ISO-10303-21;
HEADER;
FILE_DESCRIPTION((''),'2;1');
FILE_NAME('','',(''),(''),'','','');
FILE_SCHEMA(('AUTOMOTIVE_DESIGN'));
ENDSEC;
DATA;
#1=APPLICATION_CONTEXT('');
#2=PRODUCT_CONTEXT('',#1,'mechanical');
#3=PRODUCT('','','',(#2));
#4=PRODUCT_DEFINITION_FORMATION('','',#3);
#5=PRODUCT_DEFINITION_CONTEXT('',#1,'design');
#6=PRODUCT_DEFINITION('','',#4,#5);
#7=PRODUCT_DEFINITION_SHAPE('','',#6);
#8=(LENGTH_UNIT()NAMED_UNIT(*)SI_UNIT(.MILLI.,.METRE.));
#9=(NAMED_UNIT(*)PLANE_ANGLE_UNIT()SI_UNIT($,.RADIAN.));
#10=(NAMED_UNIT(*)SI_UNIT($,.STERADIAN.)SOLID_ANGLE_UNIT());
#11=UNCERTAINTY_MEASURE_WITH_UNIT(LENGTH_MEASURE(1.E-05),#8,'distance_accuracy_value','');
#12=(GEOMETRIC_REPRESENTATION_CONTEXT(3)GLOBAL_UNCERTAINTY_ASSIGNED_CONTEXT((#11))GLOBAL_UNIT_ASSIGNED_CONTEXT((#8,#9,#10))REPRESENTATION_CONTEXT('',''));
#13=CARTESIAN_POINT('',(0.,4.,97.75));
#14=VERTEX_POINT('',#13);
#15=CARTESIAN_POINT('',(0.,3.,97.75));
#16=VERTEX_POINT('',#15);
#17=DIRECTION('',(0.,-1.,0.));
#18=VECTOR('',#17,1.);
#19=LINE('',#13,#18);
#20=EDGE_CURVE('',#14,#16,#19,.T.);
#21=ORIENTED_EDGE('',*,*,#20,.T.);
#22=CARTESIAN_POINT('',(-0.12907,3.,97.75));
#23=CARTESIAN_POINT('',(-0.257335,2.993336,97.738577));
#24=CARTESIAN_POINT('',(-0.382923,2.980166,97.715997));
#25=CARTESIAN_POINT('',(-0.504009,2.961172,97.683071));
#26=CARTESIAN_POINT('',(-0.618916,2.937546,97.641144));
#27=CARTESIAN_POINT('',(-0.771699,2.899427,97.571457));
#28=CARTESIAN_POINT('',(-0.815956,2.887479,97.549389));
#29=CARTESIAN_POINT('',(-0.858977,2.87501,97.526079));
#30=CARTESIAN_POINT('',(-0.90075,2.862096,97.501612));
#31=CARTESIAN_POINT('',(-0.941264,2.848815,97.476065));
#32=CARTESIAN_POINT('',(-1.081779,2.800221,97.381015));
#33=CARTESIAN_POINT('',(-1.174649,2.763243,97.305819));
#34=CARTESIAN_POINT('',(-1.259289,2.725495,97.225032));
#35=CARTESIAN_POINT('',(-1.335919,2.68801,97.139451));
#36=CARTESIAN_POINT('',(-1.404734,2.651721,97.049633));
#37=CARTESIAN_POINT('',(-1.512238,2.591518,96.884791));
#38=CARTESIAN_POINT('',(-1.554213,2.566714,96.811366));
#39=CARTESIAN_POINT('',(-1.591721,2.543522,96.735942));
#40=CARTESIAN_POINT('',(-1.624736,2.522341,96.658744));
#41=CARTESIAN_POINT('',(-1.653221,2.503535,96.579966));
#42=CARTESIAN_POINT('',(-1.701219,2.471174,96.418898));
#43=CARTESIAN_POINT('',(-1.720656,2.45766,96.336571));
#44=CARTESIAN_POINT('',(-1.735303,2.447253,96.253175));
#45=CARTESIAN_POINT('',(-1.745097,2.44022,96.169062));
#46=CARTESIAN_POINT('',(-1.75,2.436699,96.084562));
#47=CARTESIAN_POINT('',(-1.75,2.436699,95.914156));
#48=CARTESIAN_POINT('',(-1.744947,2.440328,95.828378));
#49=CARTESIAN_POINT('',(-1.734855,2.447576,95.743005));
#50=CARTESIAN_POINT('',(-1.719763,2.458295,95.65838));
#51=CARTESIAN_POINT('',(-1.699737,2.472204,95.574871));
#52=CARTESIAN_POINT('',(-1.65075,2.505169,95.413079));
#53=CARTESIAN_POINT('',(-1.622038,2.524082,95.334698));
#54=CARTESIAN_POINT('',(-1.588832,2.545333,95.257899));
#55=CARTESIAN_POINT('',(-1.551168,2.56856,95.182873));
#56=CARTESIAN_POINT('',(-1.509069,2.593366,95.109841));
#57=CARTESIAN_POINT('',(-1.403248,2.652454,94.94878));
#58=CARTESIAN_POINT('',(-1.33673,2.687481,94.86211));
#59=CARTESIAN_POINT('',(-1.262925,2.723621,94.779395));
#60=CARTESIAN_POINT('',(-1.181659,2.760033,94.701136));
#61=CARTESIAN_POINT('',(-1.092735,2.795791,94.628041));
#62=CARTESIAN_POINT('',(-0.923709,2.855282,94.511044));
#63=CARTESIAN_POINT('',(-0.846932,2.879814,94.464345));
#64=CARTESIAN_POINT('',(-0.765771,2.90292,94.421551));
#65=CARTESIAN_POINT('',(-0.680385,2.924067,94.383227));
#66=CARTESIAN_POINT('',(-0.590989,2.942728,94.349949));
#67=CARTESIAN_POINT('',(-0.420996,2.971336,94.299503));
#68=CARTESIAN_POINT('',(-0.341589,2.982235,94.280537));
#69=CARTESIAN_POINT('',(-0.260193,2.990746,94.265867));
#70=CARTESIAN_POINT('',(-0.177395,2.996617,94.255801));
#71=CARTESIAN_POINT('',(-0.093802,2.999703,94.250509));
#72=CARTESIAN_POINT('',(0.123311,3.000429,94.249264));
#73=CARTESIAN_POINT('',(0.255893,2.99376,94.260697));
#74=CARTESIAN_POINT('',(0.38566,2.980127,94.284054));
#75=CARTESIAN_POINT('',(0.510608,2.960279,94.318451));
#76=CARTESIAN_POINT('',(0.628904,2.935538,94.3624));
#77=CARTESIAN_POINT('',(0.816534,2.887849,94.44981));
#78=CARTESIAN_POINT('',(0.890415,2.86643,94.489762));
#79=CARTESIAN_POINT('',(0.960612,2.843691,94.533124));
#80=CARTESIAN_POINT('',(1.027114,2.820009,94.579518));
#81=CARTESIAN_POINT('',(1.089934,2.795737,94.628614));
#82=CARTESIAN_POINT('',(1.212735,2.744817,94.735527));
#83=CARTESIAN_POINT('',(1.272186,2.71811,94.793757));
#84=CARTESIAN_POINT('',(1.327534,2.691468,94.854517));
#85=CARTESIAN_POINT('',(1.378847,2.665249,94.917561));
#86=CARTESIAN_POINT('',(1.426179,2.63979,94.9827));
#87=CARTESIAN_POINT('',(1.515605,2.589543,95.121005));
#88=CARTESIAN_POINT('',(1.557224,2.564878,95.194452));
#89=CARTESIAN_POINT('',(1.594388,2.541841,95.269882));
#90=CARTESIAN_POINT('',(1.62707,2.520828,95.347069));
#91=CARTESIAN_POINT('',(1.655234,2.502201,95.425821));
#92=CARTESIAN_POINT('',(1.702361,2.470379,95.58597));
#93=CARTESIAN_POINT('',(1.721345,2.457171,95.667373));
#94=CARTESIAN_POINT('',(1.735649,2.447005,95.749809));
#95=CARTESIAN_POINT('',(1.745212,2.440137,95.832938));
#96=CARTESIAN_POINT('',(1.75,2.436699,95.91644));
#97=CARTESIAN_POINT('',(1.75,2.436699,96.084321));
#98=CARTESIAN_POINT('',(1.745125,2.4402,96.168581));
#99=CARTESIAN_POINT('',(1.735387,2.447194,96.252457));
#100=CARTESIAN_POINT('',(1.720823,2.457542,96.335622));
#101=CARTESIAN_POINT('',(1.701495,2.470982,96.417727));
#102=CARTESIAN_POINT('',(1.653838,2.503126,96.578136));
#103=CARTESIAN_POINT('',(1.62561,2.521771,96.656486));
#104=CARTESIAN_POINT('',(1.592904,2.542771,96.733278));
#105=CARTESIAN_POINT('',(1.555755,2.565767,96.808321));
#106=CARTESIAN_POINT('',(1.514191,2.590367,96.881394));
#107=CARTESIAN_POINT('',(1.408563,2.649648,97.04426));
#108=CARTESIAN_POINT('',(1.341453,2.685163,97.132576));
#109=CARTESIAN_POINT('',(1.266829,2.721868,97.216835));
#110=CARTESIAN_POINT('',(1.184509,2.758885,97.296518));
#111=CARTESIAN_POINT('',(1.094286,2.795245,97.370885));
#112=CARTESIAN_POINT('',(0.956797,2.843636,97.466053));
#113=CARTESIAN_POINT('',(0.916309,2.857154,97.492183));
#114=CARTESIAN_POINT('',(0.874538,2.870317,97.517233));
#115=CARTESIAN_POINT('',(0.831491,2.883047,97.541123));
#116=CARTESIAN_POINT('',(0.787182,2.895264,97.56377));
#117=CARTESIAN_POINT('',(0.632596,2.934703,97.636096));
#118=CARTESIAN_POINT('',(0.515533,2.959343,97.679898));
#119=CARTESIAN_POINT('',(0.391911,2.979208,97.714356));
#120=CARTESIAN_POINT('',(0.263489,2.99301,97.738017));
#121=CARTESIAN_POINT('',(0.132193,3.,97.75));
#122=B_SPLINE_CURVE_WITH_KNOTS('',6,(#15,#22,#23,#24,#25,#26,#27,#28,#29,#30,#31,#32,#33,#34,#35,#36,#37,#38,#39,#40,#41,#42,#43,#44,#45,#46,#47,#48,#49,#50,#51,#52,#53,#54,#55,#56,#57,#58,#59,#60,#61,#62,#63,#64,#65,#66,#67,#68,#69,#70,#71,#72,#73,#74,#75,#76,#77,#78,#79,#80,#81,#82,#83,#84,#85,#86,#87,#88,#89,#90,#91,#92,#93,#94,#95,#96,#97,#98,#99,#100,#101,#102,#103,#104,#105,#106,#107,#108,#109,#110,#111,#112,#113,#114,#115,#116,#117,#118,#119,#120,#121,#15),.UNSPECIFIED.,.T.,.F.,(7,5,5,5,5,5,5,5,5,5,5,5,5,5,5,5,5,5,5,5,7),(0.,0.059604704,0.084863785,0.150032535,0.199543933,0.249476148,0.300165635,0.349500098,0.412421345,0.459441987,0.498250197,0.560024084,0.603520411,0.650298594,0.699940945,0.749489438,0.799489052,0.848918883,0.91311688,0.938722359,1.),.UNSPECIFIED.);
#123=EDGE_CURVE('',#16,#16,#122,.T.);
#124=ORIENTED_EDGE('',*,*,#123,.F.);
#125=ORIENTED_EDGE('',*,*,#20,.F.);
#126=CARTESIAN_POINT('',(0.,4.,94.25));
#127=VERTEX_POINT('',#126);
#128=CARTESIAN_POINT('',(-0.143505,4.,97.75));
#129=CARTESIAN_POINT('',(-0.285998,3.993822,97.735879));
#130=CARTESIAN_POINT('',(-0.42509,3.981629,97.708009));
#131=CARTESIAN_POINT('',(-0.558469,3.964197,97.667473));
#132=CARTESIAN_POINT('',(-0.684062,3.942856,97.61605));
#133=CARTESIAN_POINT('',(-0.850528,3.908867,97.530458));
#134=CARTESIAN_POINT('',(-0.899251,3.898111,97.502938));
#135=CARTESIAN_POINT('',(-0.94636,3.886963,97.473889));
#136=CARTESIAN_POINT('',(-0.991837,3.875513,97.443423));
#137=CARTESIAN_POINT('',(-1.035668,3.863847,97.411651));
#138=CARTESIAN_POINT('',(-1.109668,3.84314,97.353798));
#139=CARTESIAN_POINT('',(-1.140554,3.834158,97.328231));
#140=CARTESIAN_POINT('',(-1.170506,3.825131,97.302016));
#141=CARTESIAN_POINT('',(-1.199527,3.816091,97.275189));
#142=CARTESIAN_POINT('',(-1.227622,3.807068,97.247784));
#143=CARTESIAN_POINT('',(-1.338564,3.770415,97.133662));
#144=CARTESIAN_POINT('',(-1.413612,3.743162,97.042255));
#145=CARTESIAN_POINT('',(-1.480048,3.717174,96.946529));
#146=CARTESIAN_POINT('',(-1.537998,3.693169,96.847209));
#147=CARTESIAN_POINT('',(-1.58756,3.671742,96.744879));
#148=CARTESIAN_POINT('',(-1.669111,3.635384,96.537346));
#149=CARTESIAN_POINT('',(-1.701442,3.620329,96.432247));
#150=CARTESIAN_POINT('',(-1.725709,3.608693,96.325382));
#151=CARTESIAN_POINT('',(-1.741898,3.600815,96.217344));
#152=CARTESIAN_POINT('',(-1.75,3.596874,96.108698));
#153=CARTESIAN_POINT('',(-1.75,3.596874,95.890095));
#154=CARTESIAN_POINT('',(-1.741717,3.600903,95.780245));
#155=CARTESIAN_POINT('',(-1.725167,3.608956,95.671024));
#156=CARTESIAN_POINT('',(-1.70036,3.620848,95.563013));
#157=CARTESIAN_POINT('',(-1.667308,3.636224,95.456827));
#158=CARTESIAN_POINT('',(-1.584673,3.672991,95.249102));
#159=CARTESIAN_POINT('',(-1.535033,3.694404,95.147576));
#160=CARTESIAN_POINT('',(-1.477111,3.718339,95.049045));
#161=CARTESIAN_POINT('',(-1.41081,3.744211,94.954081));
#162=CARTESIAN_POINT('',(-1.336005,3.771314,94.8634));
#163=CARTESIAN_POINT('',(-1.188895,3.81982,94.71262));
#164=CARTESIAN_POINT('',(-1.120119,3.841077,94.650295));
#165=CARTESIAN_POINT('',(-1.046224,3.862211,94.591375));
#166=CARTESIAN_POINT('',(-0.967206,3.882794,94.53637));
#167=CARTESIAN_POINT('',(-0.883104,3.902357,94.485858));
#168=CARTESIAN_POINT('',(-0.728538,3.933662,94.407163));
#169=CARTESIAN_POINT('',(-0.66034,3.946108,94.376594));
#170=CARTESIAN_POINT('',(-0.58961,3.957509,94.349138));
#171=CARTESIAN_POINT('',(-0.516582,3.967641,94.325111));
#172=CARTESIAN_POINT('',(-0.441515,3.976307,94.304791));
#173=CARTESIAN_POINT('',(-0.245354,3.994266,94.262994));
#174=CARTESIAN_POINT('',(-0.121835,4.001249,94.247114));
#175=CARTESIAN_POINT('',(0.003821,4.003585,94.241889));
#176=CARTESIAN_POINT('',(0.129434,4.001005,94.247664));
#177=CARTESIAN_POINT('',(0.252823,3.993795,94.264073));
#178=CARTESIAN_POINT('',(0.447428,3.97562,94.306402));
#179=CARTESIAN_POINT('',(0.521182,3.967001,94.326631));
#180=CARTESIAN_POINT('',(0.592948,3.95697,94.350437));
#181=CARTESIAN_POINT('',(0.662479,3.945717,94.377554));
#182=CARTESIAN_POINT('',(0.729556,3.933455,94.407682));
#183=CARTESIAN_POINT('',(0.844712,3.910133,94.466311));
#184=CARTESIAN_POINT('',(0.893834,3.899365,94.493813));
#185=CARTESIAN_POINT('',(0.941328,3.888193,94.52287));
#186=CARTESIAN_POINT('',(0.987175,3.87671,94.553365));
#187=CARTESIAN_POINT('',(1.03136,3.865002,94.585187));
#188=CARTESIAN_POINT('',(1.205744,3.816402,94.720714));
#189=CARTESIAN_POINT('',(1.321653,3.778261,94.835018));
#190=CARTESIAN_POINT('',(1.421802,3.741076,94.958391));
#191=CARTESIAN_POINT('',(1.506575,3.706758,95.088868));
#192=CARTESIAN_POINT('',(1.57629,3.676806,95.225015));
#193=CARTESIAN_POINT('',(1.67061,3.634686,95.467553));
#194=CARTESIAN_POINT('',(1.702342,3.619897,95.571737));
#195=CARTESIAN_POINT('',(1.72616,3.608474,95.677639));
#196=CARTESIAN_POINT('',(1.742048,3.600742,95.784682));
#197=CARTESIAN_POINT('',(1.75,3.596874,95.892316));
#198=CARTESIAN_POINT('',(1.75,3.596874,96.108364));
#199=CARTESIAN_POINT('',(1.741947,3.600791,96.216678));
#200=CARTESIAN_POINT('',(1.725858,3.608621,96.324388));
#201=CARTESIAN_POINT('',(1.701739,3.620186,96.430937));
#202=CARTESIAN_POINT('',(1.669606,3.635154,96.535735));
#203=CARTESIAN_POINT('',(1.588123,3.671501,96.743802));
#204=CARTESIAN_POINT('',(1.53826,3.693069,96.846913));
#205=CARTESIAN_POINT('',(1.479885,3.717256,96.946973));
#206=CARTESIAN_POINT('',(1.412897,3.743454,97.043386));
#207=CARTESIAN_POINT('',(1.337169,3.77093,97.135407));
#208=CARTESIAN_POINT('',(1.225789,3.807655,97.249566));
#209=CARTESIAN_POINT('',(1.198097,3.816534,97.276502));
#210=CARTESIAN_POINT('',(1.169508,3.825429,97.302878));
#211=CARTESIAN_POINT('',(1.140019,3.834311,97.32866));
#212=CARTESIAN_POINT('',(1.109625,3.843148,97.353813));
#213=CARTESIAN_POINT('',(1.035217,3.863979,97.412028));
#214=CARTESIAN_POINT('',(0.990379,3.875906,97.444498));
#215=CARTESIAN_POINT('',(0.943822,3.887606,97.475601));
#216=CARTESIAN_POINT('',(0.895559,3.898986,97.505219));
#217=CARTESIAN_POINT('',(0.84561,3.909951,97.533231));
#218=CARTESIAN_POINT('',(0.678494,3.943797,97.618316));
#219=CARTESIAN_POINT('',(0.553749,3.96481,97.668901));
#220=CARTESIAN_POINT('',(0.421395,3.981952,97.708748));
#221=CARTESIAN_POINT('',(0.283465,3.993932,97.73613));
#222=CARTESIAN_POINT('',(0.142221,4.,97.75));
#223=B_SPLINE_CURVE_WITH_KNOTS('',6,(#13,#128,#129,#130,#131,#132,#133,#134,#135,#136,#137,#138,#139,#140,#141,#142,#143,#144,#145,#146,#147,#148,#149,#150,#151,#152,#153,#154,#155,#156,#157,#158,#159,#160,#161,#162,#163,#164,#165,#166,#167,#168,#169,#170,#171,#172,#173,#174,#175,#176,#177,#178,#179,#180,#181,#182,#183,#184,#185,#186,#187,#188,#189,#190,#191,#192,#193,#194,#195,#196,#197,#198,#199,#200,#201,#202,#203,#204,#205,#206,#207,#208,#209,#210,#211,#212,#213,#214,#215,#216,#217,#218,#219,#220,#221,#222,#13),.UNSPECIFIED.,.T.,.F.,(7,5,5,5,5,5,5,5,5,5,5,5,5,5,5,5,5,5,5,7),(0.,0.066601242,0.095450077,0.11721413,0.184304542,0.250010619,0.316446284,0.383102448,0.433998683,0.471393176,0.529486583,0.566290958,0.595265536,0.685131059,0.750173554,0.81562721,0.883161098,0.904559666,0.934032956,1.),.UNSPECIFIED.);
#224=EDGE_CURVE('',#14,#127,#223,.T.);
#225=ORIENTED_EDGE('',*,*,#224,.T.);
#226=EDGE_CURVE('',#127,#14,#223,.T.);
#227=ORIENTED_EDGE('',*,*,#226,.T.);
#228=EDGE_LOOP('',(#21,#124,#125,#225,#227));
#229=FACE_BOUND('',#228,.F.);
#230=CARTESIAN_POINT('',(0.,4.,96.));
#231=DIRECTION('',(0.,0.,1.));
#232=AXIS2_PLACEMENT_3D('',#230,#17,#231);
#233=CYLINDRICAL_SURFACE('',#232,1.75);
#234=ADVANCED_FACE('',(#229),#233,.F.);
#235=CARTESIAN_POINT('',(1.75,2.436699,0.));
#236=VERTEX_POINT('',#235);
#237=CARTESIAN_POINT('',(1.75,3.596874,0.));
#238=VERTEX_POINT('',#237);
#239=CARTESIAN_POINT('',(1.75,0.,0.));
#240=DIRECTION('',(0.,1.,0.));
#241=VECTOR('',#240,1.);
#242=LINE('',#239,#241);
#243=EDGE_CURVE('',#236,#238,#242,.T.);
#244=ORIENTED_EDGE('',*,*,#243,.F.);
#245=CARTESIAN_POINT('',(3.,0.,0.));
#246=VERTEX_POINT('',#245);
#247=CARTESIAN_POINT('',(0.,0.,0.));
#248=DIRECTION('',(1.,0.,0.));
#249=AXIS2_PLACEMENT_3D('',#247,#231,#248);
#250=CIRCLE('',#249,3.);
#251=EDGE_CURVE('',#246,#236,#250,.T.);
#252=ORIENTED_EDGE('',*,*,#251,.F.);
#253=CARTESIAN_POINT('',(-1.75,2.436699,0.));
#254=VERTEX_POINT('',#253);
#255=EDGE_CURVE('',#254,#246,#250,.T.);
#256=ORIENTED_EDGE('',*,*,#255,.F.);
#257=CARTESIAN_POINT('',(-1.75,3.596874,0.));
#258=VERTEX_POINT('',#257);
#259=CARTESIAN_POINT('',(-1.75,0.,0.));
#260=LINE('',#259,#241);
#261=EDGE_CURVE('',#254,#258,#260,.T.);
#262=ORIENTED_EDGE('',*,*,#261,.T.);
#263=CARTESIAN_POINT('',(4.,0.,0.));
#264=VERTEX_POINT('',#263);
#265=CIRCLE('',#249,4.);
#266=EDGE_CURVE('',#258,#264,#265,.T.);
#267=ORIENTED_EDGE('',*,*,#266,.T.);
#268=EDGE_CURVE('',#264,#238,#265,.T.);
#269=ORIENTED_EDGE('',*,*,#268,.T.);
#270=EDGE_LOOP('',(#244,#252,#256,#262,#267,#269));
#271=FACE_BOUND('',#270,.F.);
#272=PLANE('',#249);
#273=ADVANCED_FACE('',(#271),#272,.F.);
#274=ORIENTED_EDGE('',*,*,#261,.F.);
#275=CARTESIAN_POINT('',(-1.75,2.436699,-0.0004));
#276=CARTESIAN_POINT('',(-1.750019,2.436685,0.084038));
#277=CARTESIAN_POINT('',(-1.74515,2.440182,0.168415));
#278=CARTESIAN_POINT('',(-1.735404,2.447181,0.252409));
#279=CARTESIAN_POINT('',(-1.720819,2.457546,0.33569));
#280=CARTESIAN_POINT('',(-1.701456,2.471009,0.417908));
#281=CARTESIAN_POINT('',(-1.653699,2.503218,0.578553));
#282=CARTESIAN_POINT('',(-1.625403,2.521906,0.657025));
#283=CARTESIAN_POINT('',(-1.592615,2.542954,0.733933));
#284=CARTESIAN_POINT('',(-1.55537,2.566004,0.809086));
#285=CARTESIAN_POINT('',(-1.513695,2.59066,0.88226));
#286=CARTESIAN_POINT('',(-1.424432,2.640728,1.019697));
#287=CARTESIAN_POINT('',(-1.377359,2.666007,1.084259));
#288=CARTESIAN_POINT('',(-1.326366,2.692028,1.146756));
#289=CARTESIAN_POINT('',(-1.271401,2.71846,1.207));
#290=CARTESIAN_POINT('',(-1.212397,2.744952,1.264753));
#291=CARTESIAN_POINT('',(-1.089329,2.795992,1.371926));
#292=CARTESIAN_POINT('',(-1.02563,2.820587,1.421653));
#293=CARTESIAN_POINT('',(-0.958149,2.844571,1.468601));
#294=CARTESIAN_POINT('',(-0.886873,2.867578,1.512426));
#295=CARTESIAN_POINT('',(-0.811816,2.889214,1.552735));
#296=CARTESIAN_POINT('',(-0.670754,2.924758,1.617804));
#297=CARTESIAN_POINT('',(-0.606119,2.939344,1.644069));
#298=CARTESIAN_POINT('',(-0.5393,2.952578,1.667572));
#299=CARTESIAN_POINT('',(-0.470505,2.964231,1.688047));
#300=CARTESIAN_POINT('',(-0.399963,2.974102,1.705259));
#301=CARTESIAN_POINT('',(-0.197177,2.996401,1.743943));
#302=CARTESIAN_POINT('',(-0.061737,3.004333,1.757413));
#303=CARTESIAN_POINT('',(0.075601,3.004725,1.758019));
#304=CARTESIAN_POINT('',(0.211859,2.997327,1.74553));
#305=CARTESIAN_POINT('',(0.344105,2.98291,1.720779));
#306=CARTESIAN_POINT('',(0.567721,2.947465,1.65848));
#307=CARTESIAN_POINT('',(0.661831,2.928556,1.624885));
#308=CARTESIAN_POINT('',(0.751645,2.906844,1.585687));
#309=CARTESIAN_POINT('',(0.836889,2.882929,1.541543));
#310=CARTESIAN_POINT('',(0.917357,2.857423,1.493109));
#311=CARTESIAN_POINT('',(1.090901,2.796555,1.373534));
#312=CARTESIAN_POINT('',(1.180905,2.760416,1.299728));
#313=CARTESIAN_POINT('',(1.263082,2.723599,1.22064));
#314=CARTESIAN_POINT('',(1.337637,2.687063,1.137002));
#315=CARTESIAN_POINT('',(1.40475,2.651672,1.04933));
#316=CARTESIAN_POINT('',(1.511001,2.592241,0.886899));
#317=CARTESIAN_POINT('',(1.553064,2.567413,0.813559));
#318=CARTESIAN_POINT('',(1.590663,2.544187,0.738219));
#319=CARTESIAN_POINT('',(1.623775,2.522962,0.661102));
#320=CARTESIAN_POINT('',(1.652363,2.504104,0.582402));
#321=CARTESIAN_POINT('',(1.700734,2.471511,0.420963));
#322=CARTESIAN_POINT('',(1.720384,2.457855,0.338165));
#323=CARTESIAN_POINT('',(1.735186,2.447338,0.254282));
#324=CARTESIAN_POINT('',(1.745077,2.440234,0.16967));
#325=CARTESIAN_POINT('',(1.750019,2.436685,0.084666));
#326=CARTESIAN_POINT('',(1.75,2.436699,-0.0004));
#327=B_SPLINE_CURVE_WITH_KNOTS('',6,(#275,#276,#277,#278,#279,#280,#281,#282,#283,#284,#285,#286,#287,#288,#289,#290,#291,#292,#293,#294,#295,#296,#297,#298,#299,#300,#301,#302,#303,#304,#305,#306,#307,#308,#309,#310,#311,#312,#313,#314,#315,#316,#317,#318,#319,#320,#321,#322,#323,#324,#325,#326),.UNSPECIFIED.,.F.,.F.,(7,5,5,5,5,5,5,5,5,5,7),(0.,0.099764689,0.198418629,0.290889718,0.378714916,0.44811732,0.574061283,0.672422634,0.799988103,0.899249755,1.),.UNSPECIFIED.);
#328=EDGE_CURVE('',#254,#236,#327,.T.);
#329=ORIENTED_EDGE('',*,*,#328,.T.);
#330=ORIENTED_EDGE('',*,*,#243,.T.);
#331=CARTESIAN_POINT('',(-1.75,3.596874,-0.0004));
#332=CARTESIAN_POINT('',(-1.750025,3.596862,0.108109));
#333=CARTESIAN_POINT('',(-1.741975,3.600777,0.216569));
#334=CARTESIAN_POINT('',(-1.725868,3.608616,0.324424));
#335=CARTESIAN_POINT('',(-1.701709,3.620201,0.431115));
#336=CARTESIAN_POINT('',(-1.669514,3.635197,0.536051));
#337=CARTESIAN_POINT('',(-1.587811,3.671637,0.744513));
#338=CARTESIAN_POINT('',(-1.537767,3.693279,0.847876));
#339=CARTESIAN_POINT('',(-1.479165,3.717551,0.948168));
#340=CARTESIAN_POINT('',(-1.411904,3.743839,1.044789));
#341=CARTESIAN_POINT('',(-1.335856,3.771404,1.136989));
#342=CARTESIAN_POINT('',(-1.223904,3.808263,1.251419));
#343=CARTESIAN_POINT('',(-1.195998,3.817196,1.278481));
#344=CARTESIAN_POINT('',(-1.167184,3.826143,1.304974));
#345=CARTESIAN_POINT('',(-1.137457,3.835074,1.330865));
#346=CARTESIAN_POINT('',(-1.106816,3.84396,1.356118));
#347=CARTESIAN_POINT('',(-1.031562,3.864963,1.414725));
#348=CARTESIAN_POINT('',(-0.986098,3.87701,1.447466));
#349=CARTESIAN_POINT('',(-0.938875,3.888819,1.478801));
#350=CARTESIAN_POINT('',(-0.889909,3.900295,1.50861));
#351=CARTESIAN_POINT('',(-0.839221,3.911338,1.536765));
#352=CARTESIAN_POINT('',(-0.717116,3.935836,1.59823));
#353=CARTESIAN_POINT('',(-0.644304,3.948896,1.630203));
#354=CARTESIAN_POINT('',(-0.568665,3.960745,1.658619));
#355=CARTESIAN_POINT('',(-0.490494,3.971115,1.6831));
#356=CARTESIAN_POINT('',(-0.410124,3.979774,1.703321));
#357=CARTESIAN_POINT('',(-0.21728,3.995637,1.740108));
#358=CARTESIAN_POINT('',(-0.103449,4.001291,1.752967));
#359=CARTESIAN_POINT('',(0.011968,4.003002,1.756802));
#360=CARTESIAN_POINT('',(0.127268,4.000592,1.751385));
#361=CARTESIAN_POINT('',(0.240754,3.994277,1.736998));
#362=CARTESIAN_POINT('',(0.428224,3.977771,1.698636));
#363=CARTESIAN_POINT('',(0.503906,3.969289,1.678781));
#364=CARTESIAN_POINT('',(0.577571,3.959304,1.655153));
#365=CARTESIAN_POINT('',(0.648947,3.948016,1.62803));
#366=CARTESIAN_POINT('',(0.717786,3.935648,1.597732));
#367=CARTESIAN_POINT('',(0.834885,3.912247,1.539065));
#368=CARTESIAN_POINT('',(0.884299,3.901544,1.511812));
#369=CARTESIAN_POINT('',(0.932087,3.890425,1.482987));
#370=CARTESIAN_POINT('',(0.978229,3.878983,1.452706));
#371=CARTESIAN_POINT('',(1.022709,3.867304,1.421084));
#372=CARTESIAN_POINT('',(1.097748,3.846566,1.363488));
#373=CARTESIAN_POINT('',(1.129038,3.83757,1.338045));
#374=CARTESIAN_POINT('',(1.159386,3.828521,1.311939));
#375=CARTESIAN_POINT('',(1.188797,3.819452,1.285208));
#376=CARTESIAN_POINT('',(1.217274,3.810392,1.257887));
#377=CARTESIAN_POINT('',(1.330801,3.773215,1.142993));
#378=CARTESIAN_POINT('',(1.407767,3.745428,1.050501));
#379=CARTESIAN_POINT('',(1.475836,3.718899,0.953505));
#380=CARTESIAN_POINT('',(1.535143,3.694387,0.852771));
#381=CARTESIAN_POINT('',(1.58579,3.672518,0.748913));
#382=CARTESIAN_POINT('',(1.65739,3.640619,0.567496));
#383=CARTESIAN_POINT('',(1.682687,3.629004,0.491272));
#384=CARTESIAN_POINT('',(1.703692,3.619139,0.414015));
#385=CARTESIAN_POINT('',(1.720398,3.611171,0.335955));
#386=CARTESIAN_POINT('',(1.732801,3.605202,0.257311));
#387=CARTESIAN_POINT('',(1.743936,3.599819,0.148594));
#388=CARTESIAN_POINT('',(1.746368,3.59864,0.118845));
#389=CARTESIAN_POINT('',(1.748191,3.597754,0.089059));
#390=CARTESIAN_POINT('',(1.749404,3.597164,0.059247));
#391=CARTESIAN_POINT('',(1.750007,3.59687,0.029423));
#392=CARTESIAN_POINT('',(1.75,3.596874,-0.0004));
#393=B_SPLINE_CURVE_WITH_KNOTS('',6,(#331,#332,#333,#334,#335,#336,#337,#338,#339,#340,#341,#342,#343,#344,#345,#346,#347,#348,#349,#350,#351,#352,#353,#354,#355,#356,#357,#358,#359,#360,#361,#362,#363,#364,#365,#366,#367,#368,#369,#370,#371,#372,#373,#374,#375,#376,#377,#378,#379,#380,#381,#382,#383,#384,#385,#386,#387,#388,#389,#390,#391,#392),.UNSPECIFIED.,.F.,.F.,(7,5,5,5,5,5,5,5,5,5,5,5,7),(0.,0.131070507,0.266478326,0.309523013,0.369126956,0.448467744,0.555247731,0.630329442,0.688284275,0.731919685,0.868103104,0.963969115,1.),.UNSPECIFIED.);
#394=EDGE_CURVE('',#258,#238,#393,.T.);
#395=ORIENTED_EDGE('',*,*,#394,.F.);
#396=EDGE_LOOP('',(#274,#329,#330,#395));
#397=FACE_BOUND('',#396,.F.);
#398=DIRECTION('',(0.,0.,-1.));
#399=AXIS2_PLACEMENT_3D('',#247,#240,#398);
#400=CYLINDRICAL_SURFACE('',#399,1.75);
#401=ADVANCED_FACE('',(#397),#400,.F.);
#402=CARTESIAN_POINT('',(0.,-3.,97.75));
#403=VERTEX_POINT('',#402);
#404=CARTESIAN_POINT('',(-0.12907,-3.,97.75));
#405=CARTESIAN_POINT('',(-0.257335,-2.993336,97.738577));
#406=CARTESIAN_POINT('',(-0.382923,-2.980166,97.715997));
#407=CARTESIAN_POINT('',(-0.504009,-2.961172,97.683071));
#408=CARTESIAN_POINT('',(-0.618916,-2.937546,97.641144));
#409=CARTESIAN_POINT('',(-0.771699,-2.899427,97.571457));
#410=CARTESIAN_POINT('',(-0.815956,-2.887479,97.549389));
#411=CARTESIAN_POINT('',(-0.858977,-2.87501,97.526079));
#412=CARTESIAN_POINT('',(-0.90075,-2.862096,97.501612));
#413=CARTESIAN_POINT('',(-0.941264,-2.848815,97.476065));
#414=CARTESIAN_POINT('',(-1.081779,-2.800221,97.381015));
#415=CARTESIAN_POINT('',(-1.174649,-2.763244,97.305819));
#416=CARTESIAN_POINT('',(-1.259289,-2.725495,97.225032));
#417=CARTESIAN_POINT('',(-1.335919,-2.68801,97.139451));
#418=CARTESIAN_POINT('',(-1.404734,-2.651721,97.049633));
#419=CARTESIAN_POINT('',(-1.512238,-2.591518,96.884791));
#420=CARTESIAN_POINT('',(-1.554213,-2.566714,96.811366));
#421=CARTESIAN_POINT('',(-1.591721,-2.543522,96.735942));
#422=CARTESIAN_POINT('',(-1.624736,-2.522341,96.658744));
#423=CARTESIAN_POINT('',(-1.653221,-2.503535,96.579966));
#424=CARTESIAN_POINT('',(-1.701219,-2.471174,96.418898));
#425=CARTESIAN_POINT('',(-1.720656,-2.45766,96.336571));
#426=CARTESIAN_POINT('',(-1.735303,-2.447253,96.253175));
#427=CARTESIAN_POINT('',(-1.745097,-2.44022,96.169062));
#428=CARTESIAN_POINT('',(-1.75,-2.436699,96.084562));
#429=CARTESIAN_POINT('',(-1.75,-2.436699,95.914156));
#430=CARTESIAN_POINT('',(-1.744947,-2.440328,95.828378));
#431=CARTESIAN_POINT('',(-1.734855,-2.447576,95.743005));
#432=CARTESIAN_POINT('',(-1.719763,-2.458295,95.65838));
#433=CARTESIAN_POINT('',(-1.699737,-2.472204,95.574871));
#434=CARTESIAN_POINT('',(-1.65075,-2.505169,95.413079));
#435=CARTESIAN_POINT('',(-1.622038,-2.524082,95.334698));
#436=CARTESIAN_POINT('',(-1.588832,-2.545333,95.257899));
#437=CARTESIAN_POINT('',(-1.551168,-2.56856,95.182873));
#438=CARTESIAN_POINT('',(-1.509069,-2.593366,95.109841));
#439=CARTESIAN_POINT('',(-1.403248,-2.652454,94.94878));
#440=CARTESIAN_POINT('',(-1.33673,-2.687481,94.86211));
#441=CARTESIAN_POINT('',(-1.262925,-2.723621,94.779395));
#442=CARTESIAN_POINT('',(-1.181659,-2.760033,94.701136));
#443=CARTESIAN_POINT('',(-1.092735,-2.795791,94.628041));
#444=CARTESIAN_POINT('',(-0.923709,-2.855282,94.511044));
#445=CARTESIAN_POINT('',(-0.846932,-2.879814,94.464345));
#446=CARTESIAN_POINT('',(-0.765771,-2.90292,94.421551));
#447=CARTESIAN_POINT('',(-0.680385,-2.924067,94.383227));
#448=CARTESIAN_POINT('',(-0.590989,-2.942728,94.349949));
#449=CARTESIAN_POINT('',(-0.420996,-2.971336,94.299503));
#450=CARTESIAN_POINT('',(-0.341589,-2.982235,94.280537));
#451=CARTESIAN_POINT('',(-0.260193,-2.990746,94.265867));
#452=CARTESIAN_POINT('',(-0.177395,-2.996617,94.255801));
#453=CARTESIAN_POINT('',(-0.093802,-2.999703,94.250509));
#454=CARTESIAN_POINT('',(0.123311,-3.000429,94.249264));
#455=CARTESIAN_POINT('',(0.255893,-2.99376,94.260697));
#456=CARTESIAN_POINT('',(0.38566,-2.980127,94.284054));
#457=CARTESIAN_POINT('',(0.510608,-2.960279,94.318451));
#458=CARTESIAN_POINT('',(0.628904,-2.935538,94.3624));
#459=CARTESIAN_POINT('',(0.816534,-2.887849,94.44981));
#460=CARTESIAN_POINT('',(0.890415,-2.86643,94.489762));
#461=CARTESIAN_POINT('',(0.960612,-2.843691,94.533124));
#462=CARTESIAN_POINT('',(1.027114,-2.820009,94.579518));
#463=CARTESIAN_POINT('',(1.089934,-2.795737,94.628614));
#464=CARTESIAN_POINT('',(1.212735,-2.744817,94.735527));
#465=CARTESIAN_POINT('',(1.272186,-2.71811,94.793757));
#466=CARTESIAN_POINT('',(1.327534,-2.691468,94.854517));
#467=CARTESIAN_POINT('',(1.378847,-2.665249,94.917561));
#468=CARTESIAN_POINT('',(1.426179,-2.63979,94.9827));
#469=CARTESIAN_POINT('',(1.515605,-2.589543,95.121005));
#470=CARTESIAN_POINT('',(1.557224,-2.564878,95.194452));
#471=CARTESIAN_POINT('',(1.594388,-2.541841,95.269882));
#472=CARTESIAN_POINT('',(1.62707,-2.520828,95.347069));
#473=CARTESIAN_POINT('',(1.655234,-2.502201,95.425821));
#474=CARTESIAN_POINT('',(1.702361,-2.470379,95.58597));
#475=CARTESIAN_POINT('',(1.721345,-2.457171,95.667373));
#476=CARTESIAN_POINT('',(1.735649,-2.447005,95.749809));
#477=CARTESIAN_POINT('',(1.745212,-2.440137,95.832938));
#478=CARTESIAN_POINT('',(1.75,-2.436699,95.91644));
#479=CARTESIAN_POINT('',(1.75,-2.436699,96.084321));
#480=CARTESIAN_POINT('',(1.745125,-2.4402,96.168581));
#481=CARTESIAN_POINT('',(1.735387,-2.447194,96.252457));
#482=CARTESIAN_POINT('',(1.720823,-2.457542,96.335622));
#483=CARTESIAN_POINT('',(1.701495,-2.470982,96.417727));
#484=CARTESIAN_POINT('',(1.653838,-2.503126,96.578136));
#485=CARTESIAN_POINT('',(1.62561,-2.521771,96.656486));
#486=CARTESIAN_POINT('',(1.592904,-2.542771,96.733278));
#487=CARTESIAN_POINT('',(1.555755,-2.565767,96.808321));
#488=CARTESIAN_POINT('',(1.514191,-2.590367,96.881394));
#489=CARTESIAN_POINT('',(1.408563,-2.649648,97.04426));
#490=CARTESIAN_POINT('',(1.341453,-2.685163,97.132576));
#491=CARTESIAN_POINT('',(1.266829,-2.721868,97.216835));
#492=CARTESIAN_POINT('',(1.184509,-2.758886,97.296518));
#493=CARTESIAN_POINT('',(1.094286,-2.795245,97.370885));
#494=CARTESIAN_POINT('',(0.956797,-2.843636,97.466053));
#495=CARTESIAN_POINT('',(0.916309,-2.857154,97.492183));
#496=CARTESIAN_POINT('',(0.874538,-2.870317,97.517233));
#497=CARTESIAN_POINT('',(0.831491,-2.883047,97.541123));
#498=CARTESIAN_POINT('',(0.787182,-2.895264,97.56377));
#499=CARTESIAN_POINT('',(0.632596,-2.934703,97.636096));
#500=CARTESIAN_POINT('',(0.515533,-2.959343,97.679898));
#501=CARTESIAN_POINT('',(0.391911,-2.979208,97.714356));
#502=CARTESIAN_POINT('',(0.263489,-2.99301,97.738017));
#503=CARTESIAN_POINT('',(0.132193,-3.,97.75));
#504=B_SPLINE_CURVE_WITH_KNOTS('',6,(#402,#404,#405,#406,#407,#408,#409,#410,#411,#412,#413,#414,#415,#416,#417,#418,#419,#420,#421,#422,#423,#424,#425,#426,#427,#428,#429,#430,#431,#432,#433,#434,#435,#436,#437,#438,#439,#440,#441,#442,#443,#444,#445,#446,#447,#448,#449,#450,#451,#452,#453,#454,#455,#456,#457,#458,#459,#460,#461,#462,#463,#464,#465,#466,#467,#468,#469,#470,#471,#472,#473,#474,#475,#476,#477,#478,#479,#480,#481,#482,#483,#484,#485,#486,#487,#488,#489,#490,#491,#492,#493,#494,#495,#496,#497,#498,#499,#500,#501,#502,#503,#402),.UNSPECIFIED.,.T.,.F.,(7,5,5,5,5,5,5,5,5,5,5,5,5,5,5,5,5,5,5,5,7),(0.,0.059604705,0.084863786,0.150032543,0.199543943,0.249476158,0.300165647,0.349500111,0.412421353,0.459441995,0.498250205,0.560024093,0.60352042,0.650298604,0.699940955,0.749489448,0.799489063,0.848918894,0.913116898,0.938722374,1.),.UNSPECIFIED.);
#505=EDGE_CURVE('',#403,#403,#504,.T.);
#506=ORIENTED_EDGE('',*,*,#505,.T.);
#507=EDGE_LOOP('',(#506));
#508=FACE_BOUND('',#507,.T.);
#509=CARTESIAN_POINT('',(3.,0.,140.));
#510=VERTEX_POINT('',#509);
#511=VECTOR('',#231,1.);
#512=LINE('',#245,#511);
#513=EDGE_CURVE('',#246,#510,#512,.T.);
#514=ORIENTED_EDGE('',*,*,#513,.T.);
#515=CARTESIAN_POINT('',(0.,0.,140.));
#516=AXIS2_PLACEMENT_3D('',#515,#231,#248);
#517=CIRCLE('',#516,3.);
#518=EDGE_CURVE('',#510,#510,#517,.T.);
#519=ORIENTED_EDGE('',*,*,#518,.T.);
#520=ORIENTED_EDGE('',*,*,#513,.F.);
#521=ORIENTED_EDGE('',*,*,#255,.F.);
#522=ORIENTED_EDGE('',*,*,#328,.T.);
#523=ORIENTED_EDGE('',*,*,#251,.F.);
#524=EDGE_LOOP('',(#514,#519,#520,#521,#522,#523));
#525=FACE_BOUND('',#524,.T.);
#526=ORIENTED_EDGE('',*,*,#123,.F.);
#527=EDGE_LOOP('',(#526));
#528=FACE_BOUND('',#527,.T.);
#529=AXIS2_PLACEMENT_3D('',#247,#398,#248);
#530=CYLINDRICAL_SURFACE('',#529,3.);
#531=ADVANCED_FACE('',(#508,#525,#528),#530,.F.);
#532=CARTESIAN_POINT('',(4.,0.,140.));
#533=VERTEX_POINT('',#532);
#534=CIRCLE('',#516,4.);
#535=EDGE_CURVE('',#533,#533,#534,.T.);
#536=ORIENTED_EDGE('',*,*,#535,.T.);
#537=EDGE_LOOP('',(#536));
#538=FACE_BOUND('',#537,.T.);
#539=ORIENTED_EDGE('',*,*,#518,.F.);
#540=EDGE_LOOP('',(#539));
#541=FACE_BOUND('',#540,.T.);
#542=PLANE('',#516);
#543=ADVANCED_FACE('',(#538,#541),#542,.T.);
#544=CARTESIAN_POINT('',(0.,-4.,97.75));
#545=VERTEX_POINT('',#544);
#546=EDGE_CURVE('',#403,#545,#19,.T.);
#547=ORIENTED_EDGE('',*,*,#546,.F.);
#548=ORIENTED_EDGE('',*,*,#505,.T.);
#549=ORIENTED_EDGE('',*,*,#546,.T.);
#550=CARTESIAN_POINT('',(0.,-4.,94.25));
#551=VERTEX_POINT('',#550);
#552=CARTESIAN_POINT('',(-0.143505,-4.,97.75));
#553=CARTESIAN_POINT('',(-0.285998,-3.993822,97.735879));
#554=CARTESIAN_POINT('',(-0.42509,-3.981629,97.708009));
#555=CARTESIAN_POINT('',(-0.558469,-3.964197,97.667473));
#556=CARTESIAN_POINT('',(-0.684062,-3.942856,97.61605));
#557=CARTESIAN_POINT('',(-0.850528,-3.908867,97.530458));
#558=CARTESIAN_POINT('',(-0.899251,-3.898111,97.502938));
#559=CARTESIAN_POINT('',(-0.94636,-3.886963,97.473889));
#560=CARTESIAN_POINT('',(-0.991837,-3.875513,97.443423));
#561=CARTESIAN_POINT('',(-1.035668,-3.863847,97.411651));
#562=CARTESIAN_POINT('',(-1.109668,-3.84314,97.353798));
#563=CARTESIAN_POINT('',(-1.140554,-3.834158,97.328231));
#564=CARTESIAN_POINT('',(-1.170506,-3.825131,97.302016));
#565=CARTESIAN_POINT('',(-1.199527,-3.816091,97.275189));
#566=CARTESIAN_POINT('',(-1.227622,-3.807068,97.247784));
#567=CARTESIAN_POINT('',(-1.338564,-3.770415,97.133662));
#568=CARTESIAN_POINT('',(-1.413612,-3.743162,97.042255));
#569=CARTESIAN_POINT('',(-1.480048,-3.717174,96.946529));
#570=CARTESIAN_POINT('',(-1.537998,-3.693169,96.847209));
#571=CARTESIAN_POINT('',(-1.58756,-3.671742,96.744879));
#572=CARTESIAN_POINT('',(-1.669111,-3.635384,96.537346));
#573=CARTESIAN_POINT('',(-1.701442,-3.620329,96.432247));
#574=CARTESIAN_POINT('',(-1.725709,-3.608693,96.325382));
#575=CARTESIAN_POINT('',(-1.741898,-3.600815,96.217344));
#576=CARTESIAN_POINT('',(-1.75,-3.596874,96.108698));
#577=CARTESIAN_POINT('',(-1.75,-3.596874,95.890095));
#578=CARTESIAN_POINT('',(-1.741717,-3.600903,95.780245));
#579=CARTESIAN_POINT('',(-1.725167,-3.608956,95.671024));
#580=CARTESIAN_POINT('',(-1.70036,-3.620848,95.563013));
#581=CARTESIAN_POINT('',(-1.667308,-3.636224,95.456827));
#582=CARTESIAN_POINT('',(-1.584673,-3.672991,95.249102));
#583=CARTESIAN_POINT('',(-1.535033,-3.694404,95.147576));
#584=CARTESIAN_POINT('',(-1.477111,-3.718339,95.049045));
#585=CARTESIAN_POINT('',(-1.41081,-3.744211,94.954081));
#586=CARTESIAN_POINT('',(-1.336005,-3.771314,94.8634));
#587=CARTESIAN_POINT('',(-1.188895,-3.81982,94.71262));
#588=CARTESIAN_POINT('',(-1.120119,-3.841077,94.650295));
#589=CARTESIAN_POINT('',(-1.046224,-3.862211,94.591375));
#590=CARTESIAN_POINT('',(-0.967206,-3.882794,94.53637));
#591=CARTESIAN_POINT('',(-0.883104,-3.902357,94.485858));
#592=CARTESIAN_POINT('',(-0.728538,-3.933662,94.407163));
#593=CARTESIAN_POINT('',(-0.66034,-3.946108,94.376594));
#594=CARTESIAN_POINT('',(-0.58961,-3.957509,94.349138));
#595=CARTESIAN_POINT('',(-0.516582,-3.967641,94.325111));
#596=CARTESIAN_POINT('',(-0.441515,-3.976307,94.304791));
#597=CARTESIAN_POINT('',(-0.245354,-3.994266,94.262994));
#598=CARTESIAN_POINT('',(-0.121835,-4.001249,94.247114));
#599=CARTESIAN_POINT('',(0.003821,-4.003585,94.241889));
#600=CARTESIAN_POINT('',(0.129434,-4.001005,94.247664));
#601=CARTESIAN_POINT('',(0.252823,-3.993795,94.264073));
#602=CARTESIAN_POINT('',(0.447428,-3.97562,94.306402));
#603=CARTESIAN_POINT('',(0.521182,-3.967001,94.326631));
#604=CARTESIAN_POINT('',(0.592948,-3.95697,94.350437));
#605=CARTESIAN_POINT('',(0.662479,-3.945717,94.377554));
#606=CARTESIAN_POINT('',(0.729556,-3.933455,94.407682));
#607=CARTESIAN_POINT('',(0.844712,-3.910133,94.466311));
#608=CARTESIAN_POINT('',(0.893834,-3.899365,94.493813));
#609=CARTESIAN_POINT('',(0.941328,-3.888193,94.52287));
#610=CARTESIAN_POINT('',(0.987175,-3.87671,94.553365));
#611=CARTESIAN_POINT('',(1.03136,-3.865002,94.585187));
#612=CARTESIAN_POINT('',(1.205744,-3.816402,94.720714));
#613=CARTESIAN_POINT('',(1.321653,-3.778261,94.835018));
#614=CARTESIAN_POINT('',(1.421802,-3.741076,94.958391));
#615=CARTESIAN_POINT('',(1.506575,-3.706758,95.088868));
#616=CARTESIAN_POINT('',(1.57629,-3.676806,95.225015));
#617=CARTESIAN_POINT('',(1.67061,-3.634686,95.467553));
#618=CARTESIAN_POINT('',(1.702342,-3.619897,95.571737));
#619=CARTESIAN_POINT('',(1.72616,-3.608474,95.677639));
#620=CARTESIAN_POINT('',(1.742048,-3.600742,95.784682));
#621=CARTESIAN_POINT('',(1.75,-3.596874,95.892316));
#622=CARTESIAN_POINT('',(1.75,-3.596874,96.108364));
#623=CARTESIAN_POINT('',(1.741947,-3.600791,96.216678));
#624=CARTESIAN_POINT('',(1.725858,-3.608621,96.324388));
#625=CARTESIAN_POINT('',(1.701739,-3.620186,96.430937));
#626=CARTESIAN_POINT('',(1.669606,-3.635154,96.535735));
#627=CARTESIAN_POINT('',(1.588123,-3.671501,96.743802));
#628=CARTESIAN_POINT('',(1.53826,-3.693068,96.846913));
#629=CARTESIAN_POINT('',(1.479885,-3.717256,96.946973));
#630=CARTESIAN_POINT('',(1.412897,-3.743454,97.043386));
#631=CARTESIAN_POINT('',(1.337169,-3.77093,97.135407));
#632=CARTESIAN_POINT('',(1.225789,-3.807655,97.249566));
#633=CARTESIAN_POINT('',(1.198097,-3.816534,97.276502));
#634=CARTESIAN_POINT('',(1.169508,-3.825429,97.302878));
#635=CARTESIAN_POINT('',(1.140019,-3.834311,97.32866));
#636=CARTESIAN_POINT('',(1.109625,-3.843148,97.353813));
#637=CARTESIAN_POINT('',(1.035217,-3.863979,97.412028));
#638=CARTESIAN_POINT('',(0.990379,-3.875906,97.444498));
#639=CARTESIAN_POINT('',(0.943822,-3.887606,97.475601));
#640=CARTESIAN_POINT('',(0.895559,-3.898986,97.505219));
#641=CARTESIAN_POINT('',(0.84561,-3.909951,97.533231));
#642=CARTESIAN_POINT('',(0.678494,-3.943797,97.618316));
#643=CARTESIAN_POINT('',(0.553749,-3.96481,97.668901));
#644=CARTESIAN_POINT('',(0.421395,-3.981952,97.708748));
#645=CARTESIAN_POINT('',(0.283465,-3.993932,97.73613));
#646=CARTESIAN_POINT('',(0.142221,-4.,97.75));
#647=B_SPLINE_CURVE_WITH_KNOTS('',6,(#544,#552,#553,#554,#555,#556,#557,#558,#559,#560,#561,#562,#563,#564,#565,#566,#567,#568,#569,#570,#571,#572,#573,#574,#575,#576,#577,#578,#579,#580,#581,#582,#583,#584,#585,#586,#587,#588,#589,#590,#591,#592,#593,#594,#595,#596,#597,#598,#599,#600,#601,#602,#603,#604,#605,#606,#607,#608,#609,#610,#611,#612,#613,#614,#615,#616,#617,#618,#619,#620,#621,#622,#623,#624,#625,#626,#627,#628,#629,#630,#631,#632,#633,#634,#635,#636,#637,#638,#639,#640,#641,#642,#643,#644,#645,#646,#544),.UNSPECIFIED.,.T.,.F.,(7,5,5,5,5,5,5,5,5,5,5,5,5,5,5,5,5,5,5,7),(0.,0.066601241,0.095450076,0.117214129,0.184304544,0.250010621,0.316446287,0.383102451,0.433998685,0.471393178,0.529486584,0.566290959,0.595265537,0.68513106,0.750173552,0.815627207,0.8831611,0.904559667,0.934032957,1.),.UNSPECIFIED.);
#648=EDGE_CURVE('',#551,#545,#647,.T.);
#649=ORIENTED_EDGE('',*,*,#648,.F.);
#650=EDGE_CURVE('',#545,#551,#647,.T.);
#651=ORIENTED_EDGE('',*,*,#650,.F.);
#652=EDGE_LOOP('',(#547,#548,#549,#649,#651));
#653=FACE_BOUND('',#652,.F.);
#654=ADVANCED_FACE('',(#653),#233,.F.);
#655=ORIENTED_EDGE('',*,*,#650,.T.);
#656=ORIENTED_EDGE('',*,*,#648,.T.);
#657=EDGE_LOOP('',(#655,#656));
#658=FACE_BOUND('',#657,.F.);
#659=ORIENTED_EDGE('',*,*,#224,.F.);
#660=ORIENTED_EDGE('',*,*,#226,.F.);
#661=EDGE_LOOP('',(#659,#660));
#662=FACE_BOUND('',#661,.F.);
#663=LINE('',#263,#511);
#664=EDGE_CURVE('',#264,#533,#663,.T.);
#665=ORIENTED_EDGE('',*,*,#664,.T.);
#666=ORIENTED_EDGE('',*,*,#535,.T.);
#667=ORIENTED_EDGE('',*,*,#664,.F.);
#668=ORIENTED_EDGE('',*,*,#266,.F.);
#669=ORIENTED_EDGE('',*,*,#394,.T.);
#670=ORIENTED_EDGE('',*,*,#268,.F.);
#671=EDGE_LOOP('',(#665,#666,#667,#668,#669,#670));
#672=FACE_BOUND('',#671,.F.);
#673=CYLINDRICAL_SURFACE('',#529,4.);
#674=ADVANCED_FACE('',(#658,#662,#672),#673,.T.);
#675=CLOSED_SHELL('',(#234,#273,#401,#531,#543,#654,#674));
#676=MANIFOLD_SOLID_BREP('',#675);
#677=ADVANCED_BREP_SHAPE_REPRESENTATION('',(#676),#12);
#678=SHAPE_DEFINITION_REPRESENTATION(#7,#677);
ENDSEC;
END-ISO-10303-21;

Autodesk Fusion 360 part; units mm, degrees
sketch "Esquisse1" plane through (0, 0, 0) normal (0, 0, 1) x (1, 0, 0)
  circle A0 centre (0, 0) radius 4
  circle A1 centre (0, 0) radius 3
  dimension "d1" = 8
  dimension "d2" = 6
extrude "Extrusion1" add sketch "Esquisse1" along normal blind 140
hole "Perçage1" at (0, 0, 0) direction (0, 1, 0) diameter 3.5 depth 8 tip angle 180
hole "Perçage2" at (0, 4, 96) direction (0, -1, 0) diameter 3.5 depth 8 tip angle 180
